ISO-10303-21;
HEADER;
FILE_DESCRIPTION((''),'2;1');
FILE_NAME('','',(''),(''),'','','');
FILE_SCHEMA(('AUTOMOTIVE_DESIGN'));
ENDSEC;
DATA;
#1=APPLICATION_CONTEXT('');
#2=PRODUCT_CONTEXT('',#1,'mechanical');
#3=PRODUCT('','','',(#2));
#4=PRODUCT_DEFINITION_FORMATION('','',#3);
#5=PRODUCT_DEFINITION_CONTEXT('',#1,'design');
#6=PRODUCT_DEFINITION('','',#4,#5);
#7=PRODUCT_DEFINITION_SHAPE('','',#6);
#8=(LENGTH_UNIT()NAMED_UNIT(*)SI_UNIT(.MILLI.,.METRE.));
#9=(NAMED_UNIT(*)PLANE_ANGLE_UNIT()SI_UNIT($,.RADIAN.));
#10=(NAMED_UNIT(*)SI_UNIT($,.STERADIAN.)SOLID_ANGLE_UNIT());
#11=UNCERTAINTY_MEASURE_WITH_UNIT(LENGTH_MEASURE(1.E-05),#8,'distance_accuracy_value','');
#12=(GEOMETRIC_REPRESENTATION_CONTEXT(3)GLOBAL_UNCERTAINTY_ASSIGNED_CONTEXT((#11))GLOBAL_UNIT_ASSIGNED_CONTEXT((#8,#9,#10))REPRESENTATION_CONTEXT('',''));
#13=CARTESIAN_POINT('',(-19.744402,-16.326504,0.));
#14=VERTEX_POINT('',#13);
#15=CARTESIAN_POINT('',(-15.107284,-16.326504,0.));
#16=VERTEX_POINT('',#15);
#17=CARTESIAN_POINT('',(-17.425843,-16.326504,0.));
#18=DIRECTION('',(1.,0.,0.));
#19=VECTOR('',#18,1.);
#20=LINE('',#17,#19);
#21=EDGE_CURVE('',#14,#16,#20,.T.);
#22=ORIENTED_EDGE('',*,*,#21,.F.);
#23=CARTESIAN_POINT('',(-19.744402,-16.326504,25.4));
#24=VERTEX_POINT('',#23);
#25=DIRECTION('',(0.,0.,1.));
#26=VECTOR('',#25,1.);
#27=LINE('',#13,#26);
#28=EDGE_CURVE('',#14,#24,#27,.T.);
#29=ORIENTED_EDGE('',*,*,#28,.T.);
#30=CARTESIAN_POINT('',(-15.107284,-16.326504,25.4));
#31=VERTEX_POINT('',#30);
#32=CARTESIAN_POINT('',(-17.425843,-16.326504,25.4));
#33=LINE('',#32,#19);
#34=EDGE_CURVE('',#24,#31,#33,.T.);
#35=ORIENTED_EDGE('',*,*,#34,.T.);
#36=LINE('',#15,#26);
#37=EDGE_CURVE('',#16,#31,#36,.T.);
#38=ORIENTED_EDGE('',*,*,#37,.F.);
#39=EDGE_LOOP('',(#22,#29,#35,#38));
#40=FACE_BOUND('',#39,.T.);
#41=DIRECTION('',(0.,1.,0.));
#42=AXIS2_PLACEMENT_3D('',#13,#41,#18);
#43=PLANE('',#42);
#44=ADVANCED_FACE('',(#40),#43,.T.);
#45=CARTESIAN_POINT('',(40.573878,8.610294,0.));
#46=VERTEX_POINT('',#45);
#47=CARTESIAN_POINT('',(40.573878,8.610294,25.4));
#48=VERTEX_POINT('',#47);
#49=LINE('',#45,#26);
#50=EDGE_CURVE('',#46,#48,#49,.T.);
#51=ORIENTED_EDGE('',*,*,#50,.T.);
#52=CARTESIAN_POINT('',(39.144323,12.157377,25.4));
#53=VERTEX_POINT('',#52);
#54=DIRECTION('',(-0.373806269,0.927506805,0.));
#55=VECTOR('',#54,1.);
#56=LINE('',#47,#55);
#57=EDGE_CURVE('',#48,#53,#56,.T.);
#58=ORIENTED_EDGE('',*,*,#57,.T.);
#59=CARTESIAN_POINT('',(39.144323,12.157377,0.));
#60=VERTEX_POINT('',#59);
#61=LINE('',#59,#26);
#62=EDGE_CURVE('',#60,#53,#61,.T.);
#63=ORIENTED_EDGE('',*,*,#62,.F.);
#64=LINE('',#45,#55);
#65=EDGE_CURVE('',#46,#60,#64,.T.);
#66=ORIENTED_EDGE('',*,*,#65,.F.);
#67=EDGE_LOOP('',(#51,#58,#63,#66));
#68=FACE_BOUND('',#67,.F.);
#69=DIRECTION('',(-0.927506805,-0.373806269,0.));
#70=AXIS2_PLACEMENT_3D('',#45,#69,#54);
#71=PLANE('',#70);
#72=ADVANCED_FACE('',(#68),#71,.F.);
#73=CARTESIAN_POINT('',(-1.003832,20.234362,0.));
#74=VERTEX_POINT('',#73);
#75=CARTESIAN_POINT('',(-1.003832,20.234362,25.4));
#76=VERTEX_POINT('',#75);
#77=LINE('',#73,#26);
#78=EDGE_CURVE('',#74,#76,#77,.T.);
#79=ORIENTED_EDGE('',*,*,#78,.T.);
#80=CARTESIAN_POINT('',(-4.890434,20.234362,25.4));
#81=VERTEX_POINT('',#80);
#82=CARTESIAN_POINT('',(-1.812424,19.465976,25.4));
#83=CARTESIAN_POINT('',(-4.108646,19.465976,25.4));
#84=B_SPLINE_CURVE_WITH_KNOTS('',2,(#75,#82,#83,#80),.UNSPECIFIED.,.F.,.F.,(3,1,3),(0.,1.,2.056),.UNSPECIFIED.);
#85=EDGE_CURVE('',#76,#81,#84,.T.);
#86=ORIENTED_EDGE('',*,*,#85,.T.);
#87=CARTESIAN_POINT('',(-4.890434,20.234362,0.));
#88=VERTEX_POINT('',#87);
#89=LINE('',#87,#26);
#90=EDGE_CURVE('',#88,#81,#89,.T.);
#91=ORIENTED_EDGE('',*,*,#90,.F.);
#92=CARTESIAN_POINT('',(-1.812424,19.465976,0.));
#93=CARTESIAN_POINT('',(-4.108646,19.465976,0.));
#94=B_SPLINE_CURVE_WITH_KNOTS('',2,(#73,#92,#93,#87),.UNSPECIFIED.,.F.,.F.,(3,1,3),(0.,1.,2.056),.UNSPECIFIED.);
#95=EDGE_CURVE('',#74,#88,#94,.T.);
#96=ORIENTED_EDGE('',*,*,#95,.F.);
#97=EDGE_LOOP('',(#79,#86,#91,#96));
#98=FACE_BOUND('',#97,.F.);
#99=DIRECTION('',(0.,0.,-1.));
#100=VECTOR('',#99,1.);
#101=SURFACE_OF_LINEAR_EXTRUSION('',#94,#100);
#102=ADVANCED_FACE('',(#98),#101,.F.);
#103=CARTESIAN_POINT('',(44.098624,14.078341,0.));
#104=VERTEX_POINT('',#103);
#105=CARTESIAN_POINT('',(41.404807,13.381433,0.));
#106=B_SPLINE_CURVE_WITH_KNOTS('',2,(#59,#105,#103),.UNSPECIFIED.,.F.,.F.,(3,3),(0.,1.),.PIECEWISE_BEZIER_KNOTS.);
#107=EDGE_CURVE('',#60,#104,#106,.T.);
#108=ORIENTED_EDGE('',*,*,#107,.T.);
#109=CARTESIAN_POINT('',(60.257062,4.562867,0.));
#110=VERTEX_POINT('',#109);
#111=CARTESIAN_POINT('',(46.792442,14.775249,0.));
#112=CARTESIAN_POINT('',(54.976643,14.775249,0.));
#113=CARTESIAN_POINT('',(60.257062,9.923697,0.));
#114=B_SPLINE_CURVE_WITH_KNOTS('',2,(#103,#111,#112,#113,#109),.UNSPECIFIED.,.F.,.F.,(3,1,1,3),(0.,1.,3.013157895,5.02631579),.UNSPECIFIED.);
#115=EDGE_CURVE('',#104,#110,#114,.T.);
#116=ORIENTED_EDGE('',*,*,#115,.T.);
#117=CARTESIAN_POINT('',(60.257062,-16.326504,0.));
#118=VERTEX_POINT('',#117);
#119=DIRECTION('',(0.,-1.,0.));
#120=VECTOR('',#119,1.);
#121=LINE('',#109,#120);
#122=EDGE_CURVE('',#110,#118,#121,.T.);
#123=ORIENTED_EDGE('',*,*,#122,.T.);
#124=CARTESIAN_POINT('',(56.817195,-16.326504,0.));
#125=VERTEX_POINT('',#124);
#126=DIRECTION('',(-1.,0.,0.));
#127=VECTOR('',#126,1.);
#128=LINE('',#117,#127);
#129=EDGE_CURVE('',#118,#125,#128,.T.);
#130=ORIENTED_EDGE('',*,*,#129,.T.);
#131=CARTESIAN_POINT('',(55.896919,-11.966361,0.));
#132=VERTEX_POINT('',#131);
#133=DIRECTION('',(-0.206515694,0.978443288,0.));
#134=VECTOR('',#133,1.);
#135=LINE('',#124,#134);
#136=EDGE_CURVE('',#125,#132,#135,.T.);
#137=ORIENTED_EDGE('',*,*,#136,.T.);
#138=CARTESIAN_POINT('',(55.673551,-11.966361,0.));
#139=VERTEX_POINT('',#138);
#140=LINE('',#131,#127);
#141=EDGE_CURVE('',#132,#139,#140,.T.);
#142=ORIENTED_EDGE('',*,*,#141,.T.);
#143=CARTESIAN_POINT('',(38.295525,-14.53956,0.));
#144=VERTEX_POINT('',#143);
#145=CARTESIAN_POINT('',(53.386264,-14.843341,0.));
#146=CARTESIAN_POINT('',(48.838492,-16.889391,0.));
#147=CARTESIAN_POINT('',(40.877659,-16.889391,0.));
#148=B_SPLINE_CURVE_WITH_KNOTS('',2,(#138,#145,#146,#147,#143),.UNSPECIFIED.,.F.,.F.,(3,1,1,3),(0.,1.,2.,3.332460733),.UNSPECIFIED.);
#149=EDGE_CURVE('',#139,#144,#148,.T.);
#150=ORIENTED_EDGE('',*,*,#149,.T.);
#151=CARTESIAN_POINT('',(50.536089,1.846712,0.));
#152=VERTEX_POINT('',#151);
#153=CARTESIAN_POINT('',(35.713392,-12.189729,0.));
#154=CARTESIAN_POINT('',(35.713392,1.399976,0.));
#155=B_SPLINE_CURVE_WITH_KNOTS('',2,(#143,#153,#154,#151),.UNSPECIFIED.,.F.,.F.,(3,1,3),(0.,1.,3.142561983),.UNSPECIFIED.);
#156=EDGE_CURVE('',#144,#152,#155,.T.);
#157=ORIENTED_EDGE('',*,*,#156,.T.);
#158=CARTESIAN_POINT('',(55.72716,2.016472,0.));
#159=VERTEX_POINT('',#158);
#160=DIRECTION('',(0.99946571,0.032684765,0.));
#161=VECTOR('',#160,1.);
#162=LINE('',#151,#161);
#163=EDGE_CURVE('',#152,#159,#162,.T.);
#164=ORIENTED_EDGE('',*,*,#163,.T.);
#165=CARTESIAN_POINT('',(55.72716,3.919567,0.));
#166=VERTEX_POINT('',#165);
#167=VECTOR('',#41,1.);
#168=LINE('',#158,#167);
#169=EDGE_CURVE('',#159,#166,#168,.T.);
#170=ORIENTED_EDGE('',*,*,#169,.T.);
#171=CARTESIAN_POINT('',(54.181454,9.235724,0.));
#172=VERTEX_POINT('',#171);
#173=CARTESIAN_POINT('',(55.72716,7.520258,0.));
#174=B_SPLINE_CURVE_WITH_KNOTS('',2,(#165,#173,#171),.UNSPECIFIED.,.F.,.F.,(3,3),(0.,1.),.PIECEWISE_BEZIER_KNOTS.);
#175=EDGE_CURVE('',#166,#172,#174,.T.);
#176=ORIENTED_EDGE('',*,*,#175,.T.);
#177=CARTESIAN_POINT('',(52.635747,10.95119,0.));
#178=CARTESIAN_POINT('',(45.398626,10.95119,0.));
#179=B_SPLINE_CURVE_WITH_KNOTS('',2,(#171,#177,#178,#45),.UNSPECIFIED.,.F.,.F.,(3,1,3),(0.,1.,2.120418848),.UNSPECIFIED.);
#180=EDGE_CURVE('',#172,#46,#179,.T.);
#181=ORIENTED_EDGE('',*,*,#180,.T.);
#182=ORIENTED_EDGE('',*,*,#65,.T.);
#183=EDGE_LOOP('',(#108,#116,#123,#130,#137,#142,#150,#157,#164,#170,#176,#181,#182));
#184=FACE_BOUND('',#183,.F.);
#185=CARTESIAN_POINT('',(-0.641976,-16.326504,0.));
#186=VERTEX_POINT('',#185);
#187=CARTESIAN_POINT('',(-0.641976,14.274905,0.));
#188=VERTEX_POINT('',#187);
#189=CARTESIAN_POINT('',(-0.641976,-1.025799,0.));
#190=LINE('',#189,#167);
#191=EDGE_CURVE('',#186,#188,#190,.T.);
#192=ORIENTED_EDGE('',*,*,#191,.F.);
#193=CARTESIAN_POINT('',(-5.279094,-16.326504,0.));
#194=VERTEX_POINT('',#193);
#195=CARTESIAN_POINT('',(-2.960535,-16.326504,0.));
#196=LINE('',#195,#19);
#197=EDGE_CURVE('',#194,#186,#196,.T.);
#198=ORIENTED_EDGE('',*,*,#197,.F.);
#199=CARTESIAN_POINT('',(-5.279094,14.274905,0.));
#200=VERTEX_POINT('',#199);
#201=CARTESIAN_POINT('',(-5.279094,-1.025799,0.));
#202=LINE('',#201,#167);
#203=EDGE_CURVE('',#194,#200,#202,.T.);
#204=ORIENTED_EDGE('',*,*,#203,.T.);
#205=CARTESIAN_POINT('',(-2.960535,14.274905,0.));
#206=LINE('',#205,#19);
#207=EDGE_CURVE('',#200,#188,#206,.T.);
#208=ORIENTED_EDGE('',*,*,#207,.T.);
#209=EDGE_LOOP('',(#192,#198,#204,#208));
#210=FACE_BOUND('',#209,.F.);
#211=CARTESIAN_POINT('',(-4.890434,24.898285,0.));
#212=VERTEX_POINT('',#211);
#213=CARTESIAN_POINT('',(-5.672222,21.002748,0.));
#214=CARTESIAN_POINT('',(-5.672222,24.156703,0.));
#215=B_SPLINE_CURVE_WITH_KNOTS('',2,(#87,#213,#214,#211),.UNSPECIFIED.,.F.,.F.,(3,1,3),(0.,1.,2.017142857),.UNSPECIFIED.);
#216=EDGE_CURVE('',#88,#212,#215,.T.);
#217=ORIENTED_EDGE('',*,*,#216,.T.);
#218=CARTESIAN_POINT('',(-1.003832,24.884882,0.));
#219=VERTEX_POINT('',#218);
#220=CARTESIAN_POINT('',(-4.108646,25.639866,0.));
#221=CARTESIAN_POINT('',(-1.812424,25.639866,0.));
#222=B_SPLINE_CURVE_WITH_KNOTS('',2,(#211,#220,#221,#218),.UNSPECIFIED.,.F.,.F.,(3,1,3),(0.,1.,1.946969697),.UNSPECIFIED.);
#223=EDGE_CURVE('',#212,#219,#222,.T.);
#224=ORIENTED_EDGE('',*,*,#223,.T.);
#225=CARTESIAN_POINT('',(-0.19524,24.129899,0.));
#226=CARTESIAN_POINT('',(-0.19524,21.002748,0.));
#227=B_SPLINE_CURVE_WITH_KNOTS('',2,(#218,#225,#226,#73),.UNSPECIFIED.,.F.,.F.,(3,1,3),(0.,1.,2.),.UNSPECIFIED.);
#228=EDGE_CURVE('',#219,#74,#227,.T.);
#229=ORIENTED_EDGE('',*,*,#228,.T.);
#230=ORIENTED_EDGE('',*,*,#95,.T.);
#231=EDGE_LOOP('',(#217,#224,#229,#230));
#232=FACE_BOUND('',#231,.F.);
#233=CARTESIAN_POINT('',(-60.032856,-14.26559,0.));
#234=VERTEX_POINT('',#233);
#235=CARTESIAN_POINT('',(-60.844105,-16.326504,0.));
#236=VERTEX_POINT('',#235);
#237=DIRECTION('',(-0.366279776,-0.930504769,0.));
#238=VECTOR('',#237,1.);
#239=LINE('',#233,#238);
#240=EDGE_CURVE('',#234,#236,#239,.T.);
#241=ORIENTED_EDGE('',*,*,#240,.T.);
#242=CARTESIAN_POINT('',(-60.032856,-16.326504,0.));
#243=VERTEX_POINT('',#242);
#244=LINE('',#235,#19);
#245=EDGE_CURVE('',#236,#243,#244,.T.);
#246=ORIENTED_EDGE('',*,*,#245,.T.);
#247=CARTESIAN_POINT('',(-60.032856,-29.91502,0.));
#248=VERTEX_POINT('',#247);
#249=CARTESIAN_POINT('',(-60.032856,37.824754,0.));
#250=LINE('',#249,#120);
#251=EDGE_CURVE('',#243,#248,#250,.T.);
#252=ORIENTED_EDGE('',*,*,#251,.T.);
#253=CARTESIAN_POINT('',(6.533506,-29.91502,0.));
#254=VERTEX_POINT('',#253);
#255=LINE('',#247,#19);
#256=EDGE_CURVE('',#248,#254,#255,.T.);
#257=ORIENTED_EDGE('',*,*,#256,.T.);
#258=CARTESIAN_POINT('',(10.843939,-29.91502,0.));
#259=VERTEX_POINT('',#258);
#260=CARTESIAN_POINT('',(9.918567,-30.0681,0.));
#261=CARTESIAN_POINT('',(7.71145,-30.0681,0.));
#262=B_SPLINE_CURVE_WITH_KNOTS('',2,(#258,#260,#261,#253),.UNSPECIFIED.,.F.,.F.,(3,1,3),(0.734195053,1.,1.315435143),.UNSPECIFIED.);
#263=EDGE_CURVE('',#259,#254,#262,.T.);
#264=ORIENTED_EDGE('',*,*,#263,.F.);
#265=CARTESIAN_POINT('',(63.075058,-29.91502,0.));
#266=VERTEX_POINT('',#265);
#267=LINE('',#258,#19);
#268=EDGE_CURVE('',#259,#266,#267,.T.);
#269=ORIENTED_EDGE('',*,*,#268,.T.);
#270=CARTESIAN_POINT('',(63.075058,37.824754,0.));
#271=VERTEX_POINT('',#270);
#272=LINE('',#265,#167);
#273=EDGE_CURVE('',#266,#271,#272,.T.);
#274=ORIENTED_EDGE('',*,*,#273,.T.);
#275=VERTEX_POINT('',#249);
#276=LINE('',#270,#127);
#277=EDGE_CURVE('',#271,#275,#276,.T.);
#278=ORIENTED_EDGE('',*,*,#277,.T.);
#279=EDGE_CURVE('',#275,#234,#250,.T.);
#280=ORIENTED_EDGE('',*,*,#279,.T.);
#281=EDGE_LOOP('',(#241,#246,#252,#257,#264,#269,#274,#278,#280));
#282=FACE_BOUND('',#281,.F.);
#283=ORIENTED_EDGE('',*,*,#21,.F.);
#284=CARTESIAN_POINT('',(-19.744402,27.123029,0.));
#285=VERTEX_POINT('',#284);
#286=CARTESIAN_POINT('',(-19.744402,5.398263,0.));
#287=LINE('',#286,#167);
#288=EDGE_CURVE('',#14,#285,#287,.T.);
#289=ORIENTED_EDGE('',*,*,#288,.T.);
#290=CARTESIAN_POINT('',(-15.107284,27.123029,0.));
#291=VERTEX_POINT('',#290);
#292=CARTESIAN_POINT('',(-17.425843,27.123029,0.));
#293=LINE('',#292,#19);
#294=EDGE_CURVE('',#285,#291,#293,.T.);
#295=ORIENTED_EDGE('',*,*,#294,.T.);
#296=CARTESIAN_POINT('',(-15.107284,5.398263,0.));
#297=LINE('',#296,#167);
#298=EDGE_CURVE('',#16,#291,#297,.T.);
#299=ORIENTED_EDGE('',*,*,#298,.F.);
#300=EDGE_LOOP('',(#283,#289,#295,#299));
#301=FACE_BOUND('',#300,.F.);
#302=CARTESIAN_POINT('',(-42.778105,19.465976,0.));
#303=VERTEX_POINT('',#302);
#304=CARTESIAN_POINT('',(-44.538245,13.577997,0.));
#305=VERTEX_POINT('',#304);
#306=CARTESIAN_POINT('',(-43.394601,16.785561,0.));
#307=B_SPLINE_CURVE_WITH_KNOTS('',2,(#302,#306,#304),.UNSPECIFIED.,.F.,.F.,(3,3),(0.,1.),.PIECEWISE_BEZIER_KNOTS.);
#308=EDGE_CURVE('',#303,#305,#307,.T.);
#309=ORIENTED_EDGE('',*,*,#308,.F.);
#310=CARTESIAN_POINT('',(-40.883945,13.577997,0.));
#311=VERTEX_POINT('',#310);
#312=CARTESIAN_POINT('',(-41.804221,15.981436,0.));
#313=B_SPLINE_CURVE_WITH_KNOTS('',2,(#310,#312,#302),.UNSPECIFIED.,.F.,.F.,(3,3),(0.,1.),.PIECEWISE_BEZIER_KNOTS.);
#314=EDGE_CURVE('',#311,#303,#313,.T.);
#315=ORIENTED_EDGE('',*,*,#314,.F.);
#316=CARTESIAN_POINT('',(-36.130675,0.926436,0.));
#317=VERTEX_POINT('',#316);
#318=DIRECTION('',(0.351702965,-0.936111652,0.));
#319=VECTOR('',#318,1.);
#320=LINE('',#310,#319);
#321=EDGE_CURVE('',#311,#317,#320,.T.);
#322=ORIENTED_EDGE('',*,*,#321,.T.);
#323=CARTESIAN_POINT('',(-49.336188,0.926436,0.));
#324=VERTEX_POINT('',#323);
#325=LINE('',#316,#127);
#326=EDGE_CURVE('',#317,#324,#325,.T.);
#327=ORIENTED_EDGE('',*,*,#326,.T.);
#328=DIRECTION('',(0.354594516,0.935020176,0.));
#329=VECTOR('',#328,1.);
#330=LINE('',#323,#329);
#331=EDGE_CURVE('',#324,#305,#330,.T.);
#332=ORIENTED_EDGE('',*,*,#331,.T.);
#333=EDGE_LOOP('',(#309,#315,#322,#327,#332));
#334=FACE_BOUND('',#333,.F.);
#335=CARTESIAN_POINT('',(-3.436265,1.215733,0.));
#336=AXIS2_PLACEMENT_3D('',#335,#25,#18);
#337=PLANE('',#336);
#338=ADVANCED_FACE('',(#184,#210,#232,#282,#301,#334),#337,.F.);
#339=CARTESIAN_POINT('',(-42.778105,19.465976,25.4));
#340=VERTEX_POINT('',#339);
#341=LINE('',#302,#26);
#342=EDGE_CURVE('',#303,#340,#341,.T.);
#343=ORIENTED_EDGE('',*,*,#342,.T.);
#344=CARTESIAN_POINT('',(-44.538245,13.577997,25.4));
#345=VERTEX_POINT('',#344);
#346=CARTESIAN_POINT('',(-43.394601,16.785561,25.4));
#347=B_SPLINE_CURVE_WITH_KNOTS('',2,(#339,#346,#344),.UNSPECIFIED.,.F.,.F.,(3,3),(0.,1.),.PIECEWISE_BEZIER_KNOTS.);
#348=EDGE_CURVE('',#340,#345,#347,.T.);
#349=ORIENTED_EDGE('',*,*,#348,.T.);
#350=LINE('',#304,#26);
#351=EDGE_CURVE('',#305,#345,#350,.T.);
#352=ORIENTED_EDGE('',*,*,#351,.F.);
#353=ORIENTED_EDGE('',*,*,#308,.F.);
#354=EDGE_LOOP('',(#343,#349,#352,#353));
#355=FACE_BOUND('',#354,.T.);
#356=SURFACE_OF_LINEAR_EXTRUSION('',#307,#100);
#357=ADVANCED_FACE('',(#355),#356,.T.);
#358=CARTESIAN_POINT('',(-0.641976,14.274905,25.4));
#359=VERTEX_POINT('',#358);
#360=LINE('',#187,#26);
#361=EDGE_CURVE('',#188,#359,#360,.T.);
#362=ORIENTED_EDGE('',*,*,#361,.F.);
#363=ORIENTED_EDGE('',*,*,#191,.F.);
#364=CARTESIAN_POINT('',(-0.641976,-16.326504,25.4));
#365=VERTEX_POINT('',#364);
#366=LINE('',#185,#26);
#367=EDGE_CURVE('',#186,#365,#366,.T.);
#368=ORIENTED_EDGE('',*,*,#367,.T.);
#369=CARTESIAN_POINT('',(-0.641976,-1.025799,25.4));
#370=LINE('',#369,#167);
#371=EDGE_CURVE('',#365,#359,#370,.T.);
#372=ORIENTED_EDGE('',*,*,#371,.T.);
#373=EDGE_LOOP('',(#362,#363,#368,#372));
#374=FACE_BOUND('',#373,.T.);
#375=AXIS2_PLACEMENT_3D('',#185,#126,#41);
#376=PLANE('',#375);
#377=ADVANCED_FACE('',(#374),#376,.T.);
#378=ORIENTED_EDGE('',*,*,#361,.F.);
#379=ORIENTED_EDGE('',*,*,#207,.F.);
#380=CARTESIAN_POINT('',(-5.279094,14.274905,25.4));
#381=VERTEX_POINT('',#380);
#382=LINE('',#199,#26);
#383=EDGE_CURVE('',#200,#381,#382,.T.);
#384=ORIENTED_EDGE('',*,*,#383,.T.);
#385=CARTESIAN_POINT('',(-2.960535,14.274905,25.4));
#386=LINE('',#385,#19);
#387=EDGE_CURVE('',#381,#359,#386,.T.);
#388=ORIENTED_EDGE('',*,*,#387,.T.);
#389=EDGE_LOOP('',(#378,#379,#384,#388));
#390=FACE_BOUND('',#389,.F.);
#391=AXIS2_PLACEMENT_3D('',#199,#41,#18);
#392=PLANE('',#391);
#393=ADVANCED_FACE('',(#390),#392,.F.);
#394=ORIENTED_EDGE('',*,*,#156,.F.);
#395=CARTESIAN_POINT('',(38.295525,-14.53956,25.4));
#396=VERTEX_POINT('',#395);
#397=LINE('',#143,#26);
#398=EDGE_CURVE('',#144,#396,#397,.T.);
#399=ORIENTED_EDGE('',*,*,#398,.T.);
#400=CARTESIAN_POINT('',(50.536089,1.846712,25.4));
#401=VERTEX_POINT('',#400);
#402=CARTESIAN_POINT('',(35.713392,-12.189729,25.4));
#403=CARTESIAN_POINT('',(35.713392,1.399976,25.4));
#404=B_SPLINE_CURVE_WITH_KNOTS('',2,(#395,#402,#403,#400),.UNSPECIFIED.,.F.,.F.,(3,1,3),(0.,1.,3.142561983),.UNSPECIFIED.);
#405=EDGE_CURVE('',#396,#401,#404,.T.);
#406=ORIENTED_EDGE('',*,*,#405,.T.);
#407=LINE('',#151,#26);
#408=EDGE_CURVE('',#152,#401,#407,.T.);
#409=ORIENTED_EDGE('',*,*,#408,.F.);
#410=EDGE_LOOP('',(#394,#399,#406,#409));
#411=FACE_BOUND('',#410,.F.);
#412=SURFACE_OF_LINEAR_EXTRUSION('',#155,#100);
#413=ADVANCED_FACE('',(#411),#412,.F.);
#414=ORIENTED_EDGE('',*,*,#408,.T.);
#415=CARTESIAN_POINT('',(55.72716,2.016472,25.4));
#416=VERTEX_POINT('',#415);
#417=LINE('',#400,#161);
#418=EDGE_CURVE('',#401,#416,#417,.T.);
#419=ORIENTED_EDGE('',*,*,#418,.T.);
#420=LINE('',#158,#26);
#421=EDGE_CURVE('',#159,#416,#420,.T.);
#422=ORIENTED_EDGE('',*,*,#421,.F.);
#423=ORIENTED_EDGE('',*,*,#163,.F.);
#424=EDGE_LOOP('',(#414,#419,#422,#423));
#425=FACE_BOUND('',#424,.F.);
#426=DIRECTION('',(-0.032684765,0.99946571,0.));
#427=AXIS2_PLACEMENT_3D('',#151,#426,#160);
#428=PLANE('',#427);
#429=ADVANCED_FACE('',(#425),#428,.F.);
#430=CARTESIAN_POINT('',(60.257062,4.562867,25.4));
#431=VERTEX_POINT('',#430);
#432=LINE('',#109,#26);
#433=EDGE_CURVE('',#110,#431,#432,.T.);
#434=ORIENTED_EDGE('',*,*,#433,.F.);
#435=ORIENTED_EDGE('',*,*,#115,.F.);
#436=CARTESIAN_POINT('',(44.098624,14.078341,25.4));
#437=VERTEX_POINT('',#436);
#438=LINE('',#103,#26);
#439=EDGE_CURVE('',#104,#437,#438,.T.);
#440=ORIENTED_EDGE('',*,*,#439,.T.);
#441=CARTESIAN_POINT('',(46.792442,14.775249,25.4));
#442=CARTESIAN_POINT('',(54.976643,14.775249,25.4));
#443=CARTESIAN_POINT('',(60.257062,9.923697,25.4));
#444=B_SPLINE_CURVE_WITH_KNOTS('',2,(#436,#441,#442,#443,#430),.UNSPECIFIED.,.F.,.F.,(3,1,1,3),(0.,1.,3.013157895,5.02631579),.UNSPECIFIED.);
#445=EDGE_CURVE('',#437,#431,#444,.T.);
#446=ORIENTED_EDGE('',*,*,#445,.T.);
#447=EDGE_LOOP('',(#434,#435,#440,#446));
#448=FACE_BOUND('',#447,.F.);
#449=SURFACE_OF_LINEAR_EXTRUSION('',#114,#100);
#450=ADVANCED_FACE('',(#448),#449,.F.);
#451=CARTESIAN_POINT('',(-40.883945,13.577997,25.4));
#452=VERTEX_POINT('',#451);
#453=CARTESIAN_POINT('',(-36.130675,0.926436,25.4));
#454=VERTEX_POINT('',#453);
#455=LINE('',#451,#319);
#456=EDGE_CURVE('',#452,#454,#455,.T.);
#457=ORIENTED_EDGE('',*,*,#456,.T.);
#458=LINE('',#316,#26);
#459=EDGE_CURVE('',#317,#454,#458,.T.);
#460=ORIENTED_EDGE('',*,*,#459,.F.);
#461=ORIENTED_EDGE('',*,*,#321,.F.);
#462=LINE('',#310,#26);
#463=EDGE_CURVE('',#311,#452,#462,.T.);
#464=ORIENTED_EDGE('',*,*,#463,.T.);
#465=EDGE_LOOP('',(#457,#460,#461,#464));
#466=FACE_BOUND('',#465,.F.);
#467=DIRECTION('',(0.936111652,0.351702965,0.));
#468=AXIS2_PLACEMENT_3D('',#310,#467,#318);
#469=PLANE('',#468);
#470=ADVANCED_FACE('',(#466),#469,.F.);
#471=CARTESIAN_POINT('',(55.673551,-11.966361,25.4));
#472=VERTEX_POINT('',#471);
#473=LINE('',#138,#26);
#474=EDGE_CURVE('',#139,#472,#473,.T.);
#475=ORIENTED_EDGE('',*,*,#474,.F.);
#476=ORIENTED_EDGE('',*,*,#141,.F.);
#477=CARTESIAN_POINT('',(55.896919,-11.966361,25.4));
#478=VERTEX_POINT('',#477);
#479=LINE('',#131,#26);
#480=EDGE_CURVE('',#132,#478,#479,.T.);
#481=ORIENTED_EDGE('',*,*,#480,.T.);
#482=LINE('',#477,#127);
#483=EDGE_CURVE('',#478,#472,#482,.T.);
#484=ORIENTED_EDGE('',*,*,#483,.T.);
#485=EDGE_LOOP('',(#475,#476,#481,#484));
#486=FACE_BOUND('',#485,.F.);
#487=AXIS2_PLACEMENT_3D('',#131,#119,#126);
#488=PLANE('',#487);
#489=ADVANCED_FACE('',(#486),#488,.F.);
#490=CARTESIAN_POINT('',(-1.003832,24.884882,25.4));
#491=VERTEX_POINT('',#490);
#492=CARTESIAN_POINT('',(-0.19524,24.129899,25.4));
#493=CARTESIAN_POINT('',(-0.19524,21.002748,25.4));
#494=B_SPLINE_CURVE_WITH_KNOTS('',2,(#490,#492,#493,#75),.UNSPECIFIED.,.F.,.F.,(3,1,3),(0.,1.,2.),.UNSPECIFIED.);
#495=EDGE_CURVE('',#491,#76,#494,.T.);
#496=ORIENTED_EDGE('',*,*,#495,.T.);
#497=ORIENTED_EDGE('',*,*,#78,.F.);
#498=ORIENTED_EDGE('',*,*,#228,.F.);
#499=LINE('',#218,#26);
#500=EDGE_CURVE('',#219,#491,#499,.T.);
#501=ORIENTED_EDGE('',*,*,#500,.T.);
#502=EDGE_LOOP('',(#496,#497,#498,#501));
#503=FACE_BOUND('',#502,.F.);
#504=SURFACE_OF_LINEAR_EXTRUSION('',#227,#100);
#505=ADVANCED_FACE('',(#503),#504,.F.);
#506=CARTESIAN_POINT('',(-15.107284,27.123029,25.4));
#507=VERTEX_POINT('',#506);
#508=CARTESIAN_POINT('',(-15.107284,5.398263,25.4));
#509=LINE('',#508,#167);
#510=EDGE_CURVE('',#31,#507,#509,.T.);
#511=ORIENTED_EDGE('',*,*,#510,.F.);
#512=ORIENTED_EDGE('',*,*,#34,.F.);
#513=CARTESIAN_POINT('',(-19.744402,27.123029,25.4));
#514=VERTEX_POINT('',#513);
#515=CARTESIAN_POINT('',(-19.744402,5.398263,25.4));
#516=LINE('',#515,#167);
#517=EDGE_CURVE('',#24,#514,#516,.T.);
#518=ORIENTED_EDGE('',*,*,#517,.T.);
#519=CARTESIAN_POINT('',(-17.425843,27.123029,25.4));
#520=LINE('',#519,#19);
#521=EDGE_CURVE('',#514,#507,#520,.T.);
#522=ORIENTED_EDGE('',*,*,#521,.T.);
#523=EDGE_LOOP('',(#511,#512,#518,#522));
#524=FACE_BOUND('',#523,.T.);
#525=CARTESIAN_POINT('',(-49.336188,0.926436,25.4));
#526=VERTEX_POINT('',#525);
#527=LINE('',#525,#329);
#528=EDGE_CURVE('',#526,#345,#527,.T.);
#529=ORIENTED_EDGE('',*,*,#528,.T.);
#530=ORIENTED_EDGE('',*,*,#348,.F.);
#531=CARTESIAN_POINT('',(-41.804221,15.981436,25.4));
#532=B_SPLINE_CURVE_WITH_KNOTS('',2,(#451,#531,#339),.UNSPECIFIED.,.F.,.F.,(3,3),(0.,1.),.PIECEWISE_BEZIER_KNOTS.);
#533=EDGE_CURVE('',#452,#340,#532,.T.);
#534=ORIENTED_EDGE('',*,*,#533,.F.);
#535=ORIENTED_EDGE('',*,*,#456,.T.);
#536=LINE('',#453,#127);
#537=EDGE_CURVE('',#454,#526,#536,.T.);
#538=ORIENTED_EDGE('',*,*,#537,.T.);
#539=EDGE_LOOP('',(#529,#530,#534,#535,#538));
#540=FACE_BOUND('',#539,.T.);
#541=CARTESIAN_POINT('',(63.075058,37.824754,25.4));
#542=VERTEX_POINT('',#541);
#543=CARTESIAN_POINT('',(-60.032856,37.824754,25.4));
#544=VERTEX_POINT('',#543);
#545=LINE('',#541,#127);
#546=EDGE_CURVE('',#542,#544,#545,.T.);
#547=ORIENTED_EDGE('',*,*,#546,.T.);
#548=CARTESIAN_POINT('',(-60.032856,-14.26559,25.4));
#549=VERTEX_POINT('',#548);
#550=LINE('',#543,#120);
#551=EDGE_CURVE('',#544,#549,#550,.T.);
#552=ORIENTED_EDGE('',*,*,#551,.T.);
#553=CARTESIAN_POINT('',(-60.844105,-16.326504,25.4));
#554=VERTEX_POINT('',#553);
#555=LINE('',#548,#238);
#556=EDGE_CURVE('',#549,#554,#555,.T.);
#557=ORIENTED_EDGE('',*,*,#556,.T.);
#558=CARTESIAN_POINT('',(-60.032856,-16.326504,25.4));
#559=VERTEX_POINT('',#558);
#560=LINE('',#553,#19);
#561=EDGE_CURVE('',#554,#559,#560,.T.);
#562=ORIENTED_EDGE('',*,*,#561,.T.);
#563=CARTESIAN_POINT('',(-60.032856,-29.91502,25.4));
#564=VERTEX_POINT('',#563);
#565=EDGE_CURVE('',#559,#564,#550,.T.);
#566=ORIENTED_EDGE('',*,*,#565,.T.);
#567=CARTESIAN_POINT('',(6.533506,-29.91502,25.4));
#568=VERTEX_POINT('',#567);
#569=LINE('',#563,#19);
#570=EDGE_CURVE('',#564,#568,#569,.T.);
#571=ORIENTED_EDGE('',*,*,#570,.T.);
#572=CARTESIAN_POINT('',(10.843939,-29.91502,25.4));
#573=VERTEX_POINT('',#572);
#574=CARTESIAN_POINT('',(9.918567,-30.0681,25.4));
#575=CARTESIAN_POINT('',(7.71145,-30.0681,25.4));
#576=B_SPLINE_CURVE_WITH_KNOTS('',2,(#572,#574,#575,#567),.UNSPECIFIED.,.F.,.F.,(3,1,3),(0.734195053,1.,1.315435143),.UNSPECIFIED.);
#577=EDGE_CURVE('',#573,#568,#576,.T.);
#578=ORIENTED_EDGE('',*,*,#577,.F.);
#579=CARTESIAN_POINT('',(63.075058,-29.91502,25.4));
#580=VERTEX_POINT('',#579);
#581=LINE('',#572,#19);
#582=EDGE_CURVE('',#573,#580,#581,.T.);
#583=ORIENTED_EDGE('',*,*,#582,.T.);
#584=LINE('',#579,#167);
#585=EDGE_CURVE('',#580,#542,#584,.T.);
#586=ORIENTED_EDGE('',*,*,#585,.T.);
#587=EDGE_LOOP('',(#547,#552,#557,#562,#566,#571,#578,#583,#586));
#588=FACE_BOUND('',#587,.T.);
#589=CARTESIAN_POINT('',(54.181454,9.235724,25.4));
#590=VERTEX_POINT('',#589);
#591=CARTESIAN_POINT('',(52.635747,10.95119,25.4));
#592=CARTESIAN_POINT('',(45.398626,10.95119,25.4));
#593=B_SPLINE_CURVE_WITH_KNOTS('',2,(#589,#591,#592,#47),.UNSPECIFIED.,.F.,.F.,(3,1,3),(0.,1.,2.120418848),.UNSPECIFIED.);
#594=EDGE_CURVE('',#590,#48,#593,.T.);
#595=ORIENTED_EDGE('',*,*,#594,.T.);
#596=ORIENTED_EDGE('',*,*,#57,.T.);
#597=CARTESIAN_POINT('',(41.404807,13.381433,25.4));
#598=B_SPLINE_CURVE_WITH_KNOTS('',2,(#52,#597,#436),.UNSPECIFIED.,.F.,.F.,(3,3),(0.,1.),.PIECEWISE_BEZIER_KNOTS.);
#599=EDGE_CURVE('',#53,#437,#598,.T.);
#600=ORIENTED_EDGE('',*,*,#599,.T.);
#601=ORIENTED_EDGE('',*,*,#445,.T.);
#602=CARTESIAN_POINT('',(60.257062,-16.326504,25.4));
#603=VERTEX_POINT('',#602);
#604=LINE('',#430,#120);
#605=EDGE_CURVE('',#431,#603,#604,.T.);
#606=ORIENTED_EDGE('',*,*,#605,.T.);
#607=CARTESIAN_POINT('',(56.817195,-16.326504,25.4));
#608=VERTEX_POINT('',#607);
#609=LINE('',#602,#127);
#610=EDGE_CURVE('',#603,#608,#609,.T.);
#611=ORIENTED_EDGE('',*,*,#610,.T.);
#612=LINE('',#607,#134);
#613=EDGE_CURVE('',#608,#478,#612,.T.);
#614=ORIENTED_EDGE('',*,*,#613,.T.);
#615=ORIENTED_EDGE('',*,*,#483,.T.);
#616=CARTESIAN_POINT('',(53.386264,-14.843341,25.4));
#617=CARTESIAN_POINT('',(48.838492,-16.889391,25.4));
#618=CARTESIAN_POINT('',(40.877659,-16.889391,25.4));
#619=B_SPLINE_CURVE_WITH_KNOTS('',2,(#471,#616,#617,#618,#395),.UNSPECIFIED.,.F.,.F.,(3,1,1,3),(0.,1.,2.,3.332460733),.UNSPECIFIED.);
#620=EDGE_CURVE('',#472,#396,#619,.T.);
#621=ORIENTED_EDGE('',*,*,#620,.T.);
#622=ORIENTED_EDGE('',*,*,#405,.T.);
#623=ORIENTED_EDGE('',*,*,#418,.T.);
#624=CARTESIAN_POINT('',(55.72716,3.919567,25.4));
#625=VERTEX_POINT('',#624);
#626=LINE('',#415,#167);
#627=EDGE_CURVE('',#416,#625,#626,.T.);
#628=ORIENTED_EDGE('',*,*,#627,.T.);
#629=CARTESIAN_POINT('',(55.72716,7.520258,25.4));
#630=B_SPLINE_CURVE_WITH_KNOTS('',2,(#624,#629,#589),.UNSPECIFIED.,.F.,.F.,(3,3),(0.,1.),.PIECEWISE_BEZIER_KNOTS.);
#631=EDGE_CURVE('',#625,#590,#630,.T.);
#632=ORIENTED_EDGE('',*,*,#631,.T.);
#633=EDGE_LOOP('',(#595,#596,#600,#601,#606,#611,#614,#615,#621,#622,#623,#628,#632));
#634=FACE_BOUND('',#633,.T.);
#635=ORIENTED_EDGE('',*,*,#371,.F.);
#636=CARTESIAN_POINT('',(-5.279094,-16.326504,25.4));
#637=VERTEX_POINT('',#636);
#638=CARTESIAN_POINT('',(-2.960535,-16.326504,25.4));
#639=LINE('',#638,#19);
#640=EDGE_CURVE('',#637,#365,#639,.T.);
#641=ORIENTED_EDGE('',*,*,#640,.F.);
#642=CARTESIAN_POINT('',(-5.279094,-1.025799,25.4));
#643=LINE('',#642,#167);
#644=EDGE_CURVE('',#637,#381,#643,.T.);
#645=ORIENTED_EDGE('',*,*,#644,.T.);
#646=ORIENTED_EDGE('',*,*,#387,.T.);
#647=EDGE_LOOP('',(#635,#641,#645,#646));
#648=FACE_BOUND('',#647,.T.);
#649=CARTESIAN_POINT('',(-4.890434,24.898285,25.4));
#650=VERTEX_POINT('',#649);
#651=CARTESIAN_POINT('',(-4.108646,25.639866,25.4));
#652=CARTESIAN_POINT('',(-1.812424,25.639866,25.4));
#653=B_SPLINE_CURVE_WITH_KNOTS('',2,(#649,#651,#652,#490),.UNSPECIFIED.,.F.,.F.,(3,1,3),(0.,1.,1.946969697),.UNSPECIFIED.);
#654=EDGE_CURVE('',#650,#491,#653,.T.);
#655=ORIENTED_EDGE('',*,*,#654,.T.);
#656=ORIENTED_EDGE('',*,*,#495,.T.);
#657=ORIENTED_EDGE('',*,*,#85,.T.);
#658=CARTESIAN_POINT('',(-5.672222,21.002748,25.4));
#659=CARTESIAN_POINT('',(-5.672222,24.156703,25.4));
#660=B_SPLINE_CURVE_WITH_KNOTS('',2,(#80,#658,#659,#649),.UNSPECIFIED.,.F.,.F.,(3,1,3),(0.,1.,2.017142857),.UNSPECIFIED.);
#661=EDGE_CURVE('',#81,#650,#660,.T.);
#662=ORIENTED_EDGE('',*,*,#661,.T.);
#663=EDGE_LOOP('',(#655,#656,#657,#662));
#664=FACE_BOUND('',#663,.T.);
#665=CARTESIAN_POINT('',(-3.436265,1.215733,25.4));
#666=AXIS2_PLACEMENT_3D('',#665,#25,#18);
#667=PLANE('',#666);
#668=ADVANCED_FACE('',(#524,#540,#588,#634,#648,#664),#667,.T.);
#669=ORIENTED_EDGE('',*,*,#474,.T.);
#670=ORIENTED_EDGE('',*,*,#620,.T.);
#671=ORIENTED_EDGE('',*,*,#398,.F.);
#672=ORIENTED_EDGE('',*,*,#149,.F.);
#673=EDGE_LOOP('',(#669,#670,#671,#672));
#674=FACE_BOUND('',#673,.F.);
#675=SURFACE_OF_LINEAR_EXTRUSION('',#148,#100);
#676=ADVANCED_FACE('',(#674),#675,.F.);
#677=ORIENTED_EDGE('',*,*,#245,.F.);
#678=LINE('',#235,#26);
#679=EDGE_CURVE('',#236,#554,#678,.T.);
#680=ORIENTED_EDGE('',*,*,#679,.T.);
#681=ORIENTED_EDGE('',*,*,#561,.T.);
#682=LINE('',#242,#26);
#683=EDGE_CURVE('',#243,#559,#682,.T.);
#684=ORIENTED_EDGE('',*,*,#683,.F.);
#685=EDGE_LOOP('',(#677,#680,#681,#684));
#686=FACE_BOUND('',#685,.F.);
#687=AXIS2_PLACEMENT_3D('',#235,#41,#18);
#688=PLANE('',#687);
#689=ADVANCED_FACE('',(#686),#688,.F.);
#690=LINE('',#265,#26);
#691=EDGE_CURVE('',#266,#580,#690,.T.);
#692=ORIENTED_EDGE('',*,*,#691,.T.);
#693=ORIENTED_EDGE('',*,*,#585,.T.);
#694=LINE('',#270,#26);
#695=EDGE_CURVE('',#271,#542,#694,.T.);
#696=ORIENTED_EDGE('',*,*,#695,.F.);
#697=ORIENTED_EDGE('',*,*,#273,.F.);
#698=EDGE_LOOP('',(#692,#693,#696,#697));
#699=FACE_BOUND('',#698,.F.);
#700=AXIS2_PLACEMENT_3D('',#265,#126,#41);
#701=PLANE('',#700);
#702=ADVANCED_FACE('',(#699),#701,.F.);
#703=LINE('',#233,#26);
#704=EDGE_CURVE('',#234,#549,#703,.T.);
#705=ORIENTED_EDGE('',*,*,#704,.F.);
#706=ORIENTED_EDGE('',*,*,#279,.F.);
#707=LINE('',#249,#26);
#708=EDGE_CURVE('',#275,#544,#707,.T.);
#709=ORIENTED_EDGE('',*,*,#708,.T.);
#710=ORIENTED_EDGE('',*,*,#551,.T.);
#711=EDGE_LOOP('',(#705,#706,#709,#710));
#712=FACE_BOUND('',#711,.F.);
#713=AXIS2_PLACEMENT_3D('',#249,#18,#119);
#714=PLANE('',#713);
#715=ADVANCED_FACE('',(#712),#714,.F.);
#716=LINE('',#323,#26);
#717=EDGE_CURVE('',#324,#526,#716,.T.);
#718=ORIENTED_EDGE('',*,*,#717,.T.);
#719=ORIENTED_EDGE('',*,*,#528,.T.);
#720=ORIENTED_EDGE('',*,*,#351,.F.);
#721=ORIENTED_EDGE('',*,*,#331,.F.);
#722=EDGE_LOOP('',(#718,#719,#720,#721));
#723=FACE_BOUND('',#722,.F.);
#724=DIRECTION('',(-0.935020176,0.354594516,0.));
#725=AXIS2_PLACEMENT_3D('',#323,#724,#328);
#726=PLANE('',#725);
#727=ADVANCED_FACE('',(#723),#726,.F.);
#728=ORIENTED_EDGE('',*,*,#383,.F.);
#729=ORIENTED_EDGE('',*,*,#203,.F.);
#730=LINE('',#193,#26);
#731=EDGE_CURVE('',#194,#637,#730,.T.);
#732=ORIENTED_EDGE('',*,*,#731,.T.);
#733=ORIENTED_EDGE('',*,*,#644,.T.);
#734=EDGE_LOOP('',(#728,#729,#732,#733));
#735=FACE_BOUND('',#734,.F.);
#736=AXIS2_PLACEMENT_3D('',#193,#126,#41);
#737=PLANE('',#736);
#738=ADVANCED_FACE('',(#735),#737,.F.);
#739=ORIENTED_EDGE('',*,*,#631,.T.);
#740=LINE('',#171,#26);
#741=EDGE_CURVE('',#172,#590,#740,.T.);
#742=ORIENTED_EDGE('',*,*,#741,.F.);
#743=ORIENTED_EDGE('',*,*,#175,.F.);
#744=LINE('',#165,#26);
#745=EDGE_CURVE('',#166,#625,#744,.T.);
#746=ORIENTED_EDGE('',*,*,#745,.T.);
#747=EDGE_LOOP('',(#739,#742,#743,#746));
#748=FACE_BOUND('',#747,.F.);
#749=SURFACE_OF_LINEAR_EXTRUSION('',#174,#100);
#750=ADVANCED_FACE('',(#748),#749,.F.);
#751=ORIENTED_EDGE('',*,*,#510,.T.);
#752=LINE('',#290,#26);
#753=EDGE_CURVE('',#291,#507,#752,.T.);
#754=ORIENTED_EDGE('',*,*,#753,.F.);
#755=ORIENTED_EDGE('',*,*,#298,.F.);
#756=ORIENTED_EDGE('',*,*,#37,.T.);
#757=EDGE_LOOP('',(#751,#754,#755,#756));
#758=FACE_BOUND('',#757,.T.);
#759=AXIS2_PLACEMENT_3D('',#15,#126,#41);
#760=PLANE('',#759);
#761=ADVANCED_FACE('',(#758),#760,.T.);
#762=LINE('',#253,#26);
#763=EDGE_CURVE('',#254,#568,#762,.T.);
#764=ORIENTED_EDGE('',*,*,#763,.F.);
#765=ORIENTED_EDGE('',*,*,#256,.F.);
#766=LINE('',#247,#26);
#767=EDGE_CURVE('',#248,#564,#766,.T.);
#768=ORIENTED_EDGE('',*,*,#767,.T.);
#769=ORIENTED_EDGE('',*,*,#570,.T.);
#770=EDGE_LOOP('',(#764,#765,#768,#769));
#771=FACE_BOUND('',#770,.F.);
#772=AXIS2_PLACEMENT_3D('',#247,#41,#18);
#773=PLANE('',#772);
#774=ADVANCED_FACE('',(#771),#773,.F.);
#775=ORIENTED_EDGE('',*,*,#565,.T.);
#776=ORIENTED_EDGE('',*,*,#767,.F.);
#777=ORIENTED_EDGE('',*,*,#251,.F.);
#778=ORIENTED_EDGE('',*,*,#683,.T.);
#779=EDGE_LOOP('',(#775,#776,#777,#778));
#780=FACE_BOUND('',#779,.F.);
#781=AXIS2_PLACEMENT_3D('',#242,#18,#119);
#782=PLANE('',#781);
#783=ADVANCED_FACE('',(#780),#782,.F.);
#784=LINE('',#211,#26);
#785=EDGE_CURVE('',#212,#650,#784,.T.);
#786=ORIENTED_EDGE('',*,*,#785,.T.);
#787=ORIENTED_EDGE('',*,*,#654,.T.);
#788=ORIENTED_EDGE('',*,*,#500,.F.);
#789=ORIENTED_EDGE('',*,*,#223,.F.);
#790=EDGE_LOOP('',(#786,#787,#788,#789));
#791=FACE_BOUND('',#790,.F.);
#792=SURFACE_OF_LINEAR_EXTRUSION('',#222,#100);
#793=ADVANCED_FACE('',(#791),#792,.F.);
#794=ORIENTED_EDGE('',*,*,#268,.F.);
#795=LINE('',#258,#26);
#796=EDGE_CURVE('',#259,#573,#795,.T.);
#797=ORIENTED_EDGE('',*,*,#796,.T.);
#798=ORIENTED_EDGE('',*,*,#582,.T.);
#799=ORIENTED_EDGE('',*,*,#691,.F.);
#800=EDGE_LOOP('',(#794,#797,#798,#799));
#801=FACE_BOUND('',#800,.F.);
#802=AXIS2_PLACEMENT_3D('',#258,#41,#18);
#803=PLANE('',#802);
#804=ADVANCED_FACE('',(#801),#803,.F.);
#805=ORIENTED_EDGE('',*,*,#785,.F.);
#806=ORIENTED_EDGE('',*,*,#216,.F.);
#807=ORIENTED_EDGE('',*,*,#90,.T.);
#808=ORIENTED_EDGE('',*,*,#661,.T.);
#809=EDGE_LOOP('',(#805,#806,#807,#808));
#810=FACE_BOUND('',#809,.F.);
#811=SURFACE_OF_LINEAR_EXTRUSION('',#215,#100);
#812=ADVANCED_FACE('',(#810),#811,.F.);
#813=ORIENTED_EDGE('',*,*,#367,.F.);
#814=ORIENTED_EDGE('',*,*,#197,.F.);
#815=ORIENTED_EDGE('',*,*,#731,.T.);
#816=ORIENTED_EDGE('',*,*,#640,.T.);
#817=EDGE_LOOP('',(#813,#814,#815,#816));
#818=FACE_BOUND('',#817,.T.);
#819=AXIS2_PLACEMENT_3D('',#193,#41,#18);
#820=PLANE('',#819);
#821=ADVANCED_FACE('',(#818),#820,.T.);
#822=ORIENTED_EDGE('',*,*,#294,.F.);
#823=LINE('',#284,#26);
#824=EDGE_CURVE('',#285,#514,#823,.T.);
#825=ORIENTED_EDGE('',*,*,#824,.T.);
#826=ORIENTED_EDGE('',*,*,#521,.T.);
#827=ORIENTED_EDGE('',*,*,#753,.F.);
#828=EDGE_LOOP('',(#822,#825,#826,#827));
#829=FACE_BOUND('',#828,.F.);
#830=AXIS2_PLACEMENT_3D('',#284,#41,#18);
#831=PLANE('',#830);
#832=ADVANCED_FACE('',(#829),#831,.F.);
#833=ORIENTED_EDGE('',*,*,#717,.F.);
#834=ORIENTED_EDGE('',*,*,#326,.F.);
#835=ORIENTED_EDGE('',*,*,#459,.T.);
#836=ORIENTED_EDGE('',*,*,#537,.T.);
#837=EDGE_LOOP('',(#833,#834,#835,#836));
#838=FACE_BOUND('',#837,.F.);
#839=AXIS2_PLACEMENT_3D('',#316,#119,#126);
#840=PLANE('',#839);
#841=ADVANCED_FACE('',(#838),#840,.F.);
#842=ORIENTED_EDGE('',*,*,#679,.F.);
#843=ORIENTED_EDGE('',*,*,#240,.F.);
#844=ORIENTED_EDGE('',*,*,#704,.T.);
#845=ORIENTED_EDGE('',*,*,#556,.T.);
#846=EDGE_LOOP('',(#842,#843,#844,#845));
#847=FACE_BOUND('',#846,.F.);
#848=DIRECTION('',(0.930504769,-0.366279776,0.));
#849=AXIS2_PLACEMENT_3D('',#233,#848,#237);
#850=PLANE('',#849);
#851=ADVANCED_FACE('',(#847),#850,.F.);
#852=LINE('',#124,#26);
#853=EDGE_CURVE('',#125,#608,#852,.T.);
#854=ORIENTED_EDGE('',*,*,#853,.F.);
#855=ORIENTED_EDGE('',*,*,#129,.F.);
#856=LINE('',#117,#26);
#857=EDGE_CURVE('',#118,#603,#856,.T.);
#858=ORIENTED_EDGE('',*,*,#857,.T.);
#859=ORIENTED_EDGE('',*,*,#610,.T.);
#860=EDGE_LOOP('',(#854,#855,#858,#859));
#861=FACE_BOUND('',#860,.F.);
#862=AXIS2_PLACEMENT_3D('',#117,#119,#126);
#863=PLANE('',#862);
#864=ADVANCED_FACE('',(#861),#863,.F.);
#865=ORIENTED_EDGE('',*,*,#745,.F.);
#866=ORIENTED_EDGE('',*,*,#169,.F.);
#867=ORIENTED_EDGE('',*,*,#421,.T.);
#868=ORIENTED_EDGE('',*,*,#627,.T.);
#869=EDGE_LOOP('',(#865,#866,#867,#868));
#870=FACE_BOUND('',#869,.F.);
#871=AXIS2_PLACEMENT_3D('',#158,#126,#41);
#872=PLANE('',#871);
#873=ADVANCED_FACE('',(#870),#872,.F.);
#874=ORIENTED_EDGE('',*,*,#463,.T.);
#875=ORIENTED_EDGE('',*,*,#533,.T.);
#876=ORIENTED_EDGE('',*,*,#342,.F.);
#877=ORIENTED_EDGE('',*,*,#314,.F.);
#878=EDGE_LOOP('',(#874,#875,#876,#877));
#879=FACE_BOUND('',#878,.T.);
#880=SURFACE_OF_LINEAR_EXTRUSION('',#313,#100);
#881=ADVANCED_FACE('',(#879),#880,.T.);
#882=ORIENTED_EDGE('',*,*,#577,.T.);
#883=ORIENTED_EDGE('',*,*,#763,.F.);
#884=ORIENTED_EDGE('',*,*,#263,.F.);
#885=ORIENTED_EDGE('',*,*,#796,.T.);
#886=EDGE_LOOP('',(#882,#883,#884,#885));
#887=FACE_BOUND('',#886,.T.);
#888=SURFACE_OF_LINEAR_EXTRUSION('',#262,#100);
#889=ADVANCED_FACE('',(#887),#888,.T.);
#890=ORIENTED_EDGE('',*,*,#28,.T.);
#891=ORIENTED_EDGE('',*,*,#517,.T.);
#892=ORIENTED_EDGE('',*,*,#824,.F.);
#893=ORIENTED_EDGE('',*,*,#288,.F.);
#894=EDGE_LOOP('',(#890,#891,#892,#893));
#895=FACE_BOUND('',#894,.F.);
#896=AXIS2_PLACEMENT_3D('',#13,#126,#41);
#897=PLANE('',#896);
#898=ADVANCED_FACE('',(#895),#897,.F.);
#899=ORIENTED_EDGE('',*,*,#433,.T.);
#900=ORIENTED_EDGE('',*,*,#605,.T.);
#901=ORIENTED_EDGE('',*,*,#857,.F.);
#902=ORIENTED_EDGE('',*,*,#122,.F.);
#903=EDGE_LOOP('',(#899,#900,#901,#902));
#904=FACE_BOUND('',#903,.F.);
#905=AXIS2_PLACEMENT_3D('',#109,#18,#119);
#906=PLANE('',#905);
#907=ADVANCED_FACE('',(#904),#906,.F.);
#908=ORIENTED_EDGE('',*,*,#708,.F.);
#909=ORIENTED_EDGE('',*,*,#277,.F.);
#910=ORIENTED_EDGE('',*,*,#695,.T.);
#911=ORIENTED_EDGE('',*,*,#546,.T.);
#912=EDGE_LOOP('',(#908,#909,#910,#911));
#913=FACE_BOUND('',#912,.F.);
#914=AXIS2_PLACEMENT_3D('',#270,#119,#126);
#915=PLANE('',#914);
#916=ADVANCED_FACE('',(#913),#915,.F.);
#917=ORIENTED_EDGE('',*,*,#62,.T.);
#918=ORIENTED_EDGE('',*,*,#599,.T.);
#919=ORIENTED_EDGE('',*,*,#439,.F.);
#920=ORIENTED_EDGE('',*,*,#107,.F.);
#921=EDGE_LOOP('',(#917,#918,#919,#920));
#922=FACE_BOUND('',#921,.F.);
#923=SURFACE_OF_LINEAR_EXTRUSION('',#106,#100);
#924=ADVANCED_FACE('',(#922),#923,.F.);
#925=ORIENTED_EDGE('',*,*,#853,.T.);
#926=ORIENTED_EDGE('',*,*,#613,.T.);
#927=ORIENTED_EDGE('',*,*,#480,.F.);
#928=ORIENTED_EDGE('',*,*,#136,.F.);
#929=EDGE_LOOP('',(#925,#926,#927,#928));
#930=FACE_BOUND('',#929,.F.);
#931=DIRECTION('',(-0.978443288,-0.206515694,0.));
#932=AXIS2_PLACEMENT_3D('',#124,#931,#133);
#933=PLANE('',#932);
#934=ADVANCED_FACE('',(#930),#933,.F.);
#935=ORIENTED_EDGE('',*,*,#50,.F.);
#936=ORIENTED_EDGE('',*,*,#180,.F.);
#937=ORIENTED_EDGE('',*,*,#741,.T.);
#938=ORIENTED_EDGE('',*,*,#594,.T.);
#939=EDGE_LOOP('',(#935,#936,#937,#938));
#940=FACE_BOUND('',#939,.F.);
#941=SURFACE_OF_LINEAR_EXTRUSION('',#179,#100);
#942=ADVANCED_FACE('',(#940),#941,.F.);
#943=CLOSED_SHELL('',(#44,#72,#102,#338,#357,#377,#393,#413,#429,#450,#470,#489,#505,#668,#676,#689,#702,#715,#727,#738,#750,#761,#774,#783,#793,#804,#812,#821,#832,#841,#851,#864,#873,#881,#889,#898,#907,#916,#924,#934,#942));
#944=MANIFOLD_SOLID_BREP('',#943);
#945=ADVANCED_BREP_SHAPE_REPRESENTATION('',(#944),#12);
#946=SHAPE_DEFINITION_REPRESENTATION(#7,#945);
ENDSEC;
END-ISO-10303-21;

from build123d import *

# Parameters (mm, degrees)
F0_W     = 4.6371185902
F0_H     = 30.6014088084
F0_H_2   = 43.4495331489
F1_DEPTH = 25.4


with BuildPart() as f1:
    # F0 (on Top) → F1 (new body)
    with BuildSketch(Plane.XY):
        with BuildLine():
            Line((63.0750581622, 37.8247536719), (-60.0328557193, 37.8247536719))
            Line((-60.0328557193, 37.8247536719), (-60.0328557193, -14.2655899338))
            Line((-60.0328557193, -14.2655899338), (-44.7080042092, 24.6659818982))
            Line((-44.7080042092, 24.6659818982), (-40.7141853078, 24.6659818982))
            Line((-40.7141853078, 24.6659818982), (-24.658497241, -16.3265038282))
            Line((-24.658497241, -16.3265038282), (-29.5725920862, -16.3265038282))
            Line((-29.5725920862, -16.3265038282), (-34.6564465714, -3.3443587191))
            Line((-34.6564465714, -3.3443587191), (-51.0159150468, -3.3443587191))
            Line((-51.0159150468, -3.3443587191), (-56.0372265067, -16.3265038282))
            Line((-56.0372265067, -16.3265038282), (-60.0328557193, -16.3265038282))
            Line((-60.0328557193, -16.3265038282), (-60.0328557193, -29.9150198698))
            Line((-60.0328557193, -29.9150198698), (6.5335062061, -29.9150198698))
            add(Edge.make_bspline(
                [(6.5335062061, -29.9150198698), (5.6202163906, -29.7963329994), (4.718855215, -29.5856251921)],
                knots=[0.5632770419, 0.5632770419, 0.5632770419, 1, 1, 1], degree=2))
            Line((4.718855215, -29.5856251921), (4.718855215, -25.8777172635))
            add(Edge.make_bspline(
                [(4.718855215, -25.8777172635), (6.2556266938, -26.2083018258), (8.1497868887, -26.2083018258)],
                knots=[0, 0, 0, 1, 1, 1], degree=2))
            add(Edge.make_bspline(
                [(8.1497868887, -26.2083018258), (12.9298609653, -26.2083018258), (14.9669766466, -20.8474710857)],
                knots=[0, 0, 0, 1, 1, 1], degree=2))
            Line((14.9669766466, -20.8474710857), (16.6735077655, -16.4962634683))
            Line((16.6735077655, -16.4962634683), (4.3257276274, 14.2749049802))
            Line((4.3257276274, 14.2749049802), (9.3023654978, 14.2749049802))
            Line((9.3023654978, 14.2749049802), (16.003403923, -3.174599079))
            add(Edge.make_bspline(
                [(16.003403923, -3.174599079), (18.2013445265, -9.1519253543), (18.7374276005, -11.8055365706)],
                knots=[0, 0, 0, 1, 1, 1], degree=2))
            Line((18.7374276005, -11.8055365706), (18.960795548, -11.8055365706))
            add(Edge.make_bspline(
                [(18.960795548, -11.8055365706), (19.318184264, -10.3759817066), (20.479697591, -6.9271805971)],
                knots=[0, 0, 0, 1, 1, 1], degree=2))
            add(Edge.make_bspline(
                [(20.479697591, -6.9271805971), (21.6412109181, -3.4783794876), (28.0652730883, 14.2749049802)],
                knots=[0, 0, 0, 1, 1, 1], degree=2))
            Line((28.0652730883, 14.2749049802), (33.0329762409, 14.2749049802))
            Line((33.0329762409, 14.2749049802), (19.8810714917, -20.5704948308))
            add(Edge.make_bspline(
                [(19.8810714917, -20.5704948308), (17.9243682716, -25.7347617771), (15.3154306447, -27.9014308679)],
                knots=[0, 0, 0, 1, 1, 1], degree=2))
            add(Edge.make_bspline(
                [(15.3154306447, -27.9014308679), (13.3999615447, -29.4921885965), (10.8439389661, -29.9150198698)],
                knots=[0, 0, 0, 0.7341950533, 0.7341950533, 0.7341950533], degree=2))
            Line((10.8439389661, -29.9150198698), (63.0750581622, -29.9150198698))
            Line((63.0750581622, -29.9150198698), (63.0750581622, 37.8247536719))
        make_face()
        with Locations((-2.9605348203, -1.025799424)):
            Rectangle(F0_W, F0_H, mode=Mode.SUBTRACT)
        with BuildLine():
            Line((60.2570616829, -16.3265038282), (56.8171952913, -16.3265038282))
            Line((56.8171952913, -16.3265038282), (55.8969193476, -11.9663614928))
            Line((55.8969193476, -11.9663614928), (55.6735514001, -11.9663614928))
            add(Edge.make_bspline(
                [(55.6735514001, -11.9663614928), (53.3862636176, -14.8433406567), (51.112377912, -15.8663658563)],
                knots=[0, 0, 0, 1, 1, 1], degree=2))
            add(Edge.make_bspline(
                [(51.112377912, -15.8663658563), (48.8384922064, -16.8893910559), (45.4254299685, -16.8893910559)],
                knots=[0, 0, 0, 1, 1, 1], degree=2))
            add(Edge.make_bspline(
                [(45.4254299685, -16.8893910559), (40.8776585573, -16.8893910559), (38.2955250841, -14.5395602481)],
                knots=[0, 0, 0, 1, 1, 1], degree=2))
            add(Edge.make_bspline(
                [(38.2955250841, -14.5395602481), (35.7133916109, -12.1897294404), (35.7133916109, -7.8653259766)],
                knots=[0, 0, 0, 1, 1, 1], degree=2))
            add(Edge.make_bspline(
                [(35.7133916109, -7.8653259766), (35.7133916109, 1.3999764859), (50.5360886075, 1.8467123809)],
                knots=[0, 0, 0, 1, 1, 1], degree=2))
            Line((50.5360886075, 1.8467123809), (55.7271597075, 2.016472021))
            Line((55.7271597075, 2.016472021), (55.7271597075, 3.9195669338))
            add(Edge.make_bspline(
                [(55.7271597075, 3.9195669338), (55.7271597075, 7.5202582476), (54.1814535108, 9.2357240844)],
                knots=[0, 0, 0, 1, 1, 1], degree=2))
            add(Edge.make_bspline(
                [(54.1814535108, 9.2357240844), (52.635747314, 10.9511899213), (49.2226850761, 10.9511899213)],
                knots=[0, 0, 0, 1, 1, 1], degree=2))
            add(Edge.make_bspline(
                [(49.2226850761, 10.9511899213), (45.3986258148, 10.9511899213), (40.5738781487, 8.6102938314)],
                knots=[0, 0, 0, 1, 1, 1], degree=2))
            Line((40.5738781487, 8.6102938314), (39.1443232846, 12.1573768378))
            add(Edge.make_bspline(
                [(39.1443232846, 12.1573768378), (41.4048069134, 13.3814331902), (44.0986243603, 14.0783411864)],
                knots=[0, 0, 0, 1, 1, 1], degree=2))
            add(Edge.make_bspline(
                [(44.0986243603, 14.0783411864), (46.7924418073, 14.7752491826), (49.5085960489, 14.7752491826)],
                knots=[0, 0, 0, 1, 1, 1], degree=2))
            add(Edge.make_bspline(
                [(49.5085960489, 14.7752491826), (54.9766434039, 14.7752491826), (57.6168525434, 12.3494732727)],
                knots=[0, 0, 0, 1, 1, 1], degree=2))
            add(Edge.make_bspline(
                [(57.6168525434, 12.3494732727), (60.2570616829, 9.9236973628), (60.2570616829, 4.5628666226)],
                knots=[0, 0, 0, 1, 1, 1], degree=2))
            Line((60.2570616829, 4.5628666226), (60.2570616829, -16.3265038282))
        make_face(mode=Mode.SUBTRACT)
        with Locations((-17.4258431008, 5.3982627463)):
            Rectangle(F0_W, F0_H_2, mode=Mode.SUBTRACT)
        with BuildLine():
            add(Edge.make_bspline(
                [(-4.8904338867, 20.2343618197), (-5.672221703, 21.0027475591), (-5.672221703, 22.5663231916)],
                knots=[0, 0, 0, 1, 1, 1], degree=2))
            add(Edge.make_bspline(
                [(-5.672221703, 22.5663231916), (-5.672221703, 24.1567029779), (-4.8904338867, 24.8982845636)],
                knots=[0, 0, 0, 1, 1, 1], degree=2))
            add(Edge.make_bspline(
                [(-4.8904338867, 24.8982845636), (-4.1086460705, 25.6398661493), (-2.9292633076, 25.6398661493)],
                knots=[0, 0, 0, 1, 1, 1], degree=2))
            add(Edge.make_bspline(
                [(-2.9292633076, 25.6398661493), (-1.8124235701, 25.6398661493), (-1.0038316001, 24.8848824867)],
                knots=[0, 0, 0, 1, 1, 1], degree=2))
            add(Edge.make_bspline(
                [(-1.0038316001, 24.8848824867), (-0.1952396302, 24.1298988242), (-0.1952396302, 22.5663231916)],
                knots=[0, 0, 0, 1, 1, 1], degree=2))
            add(Edge.make_bspline(
                [(-0.1952396302, 22.5663231916), (-0.1952396302, 21.0027475591), (-1.0038316001, 20.2343618197)],
                knots=[0, 0, 0, 1, 1, 1], degree=2))
            add(Edge.make_bspline(
                [(-1.0038316001, 20.2343618197), (-1.8124235701, 19.4659760802), (-2.9292633076, 19.4659760802)],
                knots=[0, 0, 0, 1, 1, 1], degree=2))
            add(Edge.make_bspline(
                [(-2.9292633076, 19.4659760802), (-4.1086460705, 19.4659760802), (-4.8904338867, 20.2343618197)],
                knots=[0, 0, 0, 1, 1, 1], degree=2))
        make_face(mode=Mode.SUBTRACT)
        Polygon((-44.7080042092, 24.6659818982), (-60.0328557193, -14.2655899338), (-60.0328557193, -16.3265038282), (-56.0372265067, -16.3265038282), (-51.0159150468, -3.3443587191), (-34.6564465714, -3.3443587191), (-29.5725920862, -16.3265038282), (-24.658497241, -16.3265038282), (-40.7141853078, 24.6659818982), align=None)
        with BuildLine():
            Line((-40.8839449479, 13.577996984), (-36.130675025, 0.9264364372))
            Line((-36.130675025, 0.9264364372), (-49.3361880815, 0.9264364372))
            Line((-49.3361880815, 0.9264364372), (-44.5382445691, 13.577996984))
            add(Edge.make_bspline(
                [(-42.7781051427, 19.4659760802), (-43.3946006779, 16.7855607102), (-44.5382445691, 13.577996984)],
                knots=[0, 0, 0, 1, 1, 1], degree=2))
            add(Edge.make_bspline(
                [(-40.8839449479, 13.577996984), (-41.8042208916, 15.9814360991), (-42.7781051427, 19.4659760802)],
                knots=[0, 0, 0, 1, 1, 1], degree=2))
        make_face(mode=Mode.SUBTRACT)
        Polygon((-60.0328557193, -16.3265038282), (-60.0328557193, -14.2655899338), (-60.844104737, -16.3265038282), align=None)
        with BuildLine():
            add(Edge.make_bspline(
                [(10.8439389661, -29.9150198698), (9.9185671017, -30.0680999588), (8.9092379102, -30.0680999588)],
                knots=[0.7341950533, 0.7341950533, 0.7341950533, 1, 1, 1], degree=2))
            Line((10.8439389661, -29.9150198698), (6.5335062061, -29.9150198698))
            add(Edge.make_bspline(
                [(8.9092379102, -30.0680999588), (7.7114502005, -30.0680999588), (6.5335062061, -29.9150198698)],
                knots=[0, 0, 0, 0.5632770419, 0.5632770419, 0.5632770419], degree=2))
        make_face()
        with BuildLine():
            Line((6.5335062061, -29.9150198698), (10.8439389661, -29.9150198698))
            add(Edge.make_bspline(
                [(15.3154306447, -27.9014308679), (13.3999615447, -29.4921885965), (10.8439389661, -29.9150198698)],
                knots=[0, 0, 0, 0.7341950533, 0.7341950533, 0.7341950533], degree=2))
            add(Edge.make_bspline(
                [(19.8810714917, -20.5704948308), (17.9243682716, -25.7347617771), (15.3154306447, -27.9014308679)],
                knots=[0, 0, 0, 1, 1, 1], degree=2))
            Line((19.8810714917, -20.5704948308), (33.0329762409, 14.2749049802))
            Line((33.0329762409, 14.2749049802), (28.0652730883, 14.2749049802))
            add(Edge.make_bspline(
                [(20.479697591, -6.9271805971), (21.6412109181, -3.4783794876), (28.0652730883, 14.2749049802)],
                knots=[0, 0, 0, 1, 1, 1], degree=2))
            add(Edge.make_bspline(
                [(18.960795548, -11.8055365706), (19.318184264, -10.3759817066), (20.479697591, -6.9271805971)],
                knots=[0, 0, 0, 1, 1, 1], degree=2))
            Line((18.960795548, -11.8055365706), (18.7374276005, -11.8055365706))
            add(Edge.make_bspline(
                [(16.003403923, -3.174599079), (18.2013445265, -9.1519253543), (18.7374276005, -11.8055365706)],
                knots=[0, 0, 0, 1, 1, 1], degree=2))
            Line((16.003403923, -3.174599079), (9.3023654978, 14.2749049802))
            Line((9.3023654978, 14.2749049802), (4.3257276274, 14.2749049802))
            Line((4.3257276274, 14.2749049802), (16.6735077655, -16.4962634683))
            Line((16.6735077655, -16.4962634683), (14.9669766466, -20.8474710857))
            add(Edge.make_bspline(
                [(8.1497868887, -26.2083018258), (12.9298609653, -26.2083018258), (14.9669766466, -20.8474710857)],
                knots=[0, 0, 0, 1, 1, 1], degree=2))
            add(Edge.make_bspline(
                [(4.718855215, -25.8777172635), (6.2556266938, -26.2083018258), (8.1497868887, -26.2083018258)],
                knots=[0, 0, 0, 1, 1, 1], degree=2))
            Line((4.718855215, -25.8777172635), (4.718855215, -29.5856251921))
            add(Edge.make_bspline(
                [(6.5335062061, -29.9150198698), (5.6202163906, -29.7963329994), (4.718855215, -29.5856251921)],
                knots=[0.5632770419, 0.5632770419, 0.5632770419, 1, 1, 1], degree=2))
        make_face()
    extrude(amount=F1_DEPTH)


solid = f1.part
